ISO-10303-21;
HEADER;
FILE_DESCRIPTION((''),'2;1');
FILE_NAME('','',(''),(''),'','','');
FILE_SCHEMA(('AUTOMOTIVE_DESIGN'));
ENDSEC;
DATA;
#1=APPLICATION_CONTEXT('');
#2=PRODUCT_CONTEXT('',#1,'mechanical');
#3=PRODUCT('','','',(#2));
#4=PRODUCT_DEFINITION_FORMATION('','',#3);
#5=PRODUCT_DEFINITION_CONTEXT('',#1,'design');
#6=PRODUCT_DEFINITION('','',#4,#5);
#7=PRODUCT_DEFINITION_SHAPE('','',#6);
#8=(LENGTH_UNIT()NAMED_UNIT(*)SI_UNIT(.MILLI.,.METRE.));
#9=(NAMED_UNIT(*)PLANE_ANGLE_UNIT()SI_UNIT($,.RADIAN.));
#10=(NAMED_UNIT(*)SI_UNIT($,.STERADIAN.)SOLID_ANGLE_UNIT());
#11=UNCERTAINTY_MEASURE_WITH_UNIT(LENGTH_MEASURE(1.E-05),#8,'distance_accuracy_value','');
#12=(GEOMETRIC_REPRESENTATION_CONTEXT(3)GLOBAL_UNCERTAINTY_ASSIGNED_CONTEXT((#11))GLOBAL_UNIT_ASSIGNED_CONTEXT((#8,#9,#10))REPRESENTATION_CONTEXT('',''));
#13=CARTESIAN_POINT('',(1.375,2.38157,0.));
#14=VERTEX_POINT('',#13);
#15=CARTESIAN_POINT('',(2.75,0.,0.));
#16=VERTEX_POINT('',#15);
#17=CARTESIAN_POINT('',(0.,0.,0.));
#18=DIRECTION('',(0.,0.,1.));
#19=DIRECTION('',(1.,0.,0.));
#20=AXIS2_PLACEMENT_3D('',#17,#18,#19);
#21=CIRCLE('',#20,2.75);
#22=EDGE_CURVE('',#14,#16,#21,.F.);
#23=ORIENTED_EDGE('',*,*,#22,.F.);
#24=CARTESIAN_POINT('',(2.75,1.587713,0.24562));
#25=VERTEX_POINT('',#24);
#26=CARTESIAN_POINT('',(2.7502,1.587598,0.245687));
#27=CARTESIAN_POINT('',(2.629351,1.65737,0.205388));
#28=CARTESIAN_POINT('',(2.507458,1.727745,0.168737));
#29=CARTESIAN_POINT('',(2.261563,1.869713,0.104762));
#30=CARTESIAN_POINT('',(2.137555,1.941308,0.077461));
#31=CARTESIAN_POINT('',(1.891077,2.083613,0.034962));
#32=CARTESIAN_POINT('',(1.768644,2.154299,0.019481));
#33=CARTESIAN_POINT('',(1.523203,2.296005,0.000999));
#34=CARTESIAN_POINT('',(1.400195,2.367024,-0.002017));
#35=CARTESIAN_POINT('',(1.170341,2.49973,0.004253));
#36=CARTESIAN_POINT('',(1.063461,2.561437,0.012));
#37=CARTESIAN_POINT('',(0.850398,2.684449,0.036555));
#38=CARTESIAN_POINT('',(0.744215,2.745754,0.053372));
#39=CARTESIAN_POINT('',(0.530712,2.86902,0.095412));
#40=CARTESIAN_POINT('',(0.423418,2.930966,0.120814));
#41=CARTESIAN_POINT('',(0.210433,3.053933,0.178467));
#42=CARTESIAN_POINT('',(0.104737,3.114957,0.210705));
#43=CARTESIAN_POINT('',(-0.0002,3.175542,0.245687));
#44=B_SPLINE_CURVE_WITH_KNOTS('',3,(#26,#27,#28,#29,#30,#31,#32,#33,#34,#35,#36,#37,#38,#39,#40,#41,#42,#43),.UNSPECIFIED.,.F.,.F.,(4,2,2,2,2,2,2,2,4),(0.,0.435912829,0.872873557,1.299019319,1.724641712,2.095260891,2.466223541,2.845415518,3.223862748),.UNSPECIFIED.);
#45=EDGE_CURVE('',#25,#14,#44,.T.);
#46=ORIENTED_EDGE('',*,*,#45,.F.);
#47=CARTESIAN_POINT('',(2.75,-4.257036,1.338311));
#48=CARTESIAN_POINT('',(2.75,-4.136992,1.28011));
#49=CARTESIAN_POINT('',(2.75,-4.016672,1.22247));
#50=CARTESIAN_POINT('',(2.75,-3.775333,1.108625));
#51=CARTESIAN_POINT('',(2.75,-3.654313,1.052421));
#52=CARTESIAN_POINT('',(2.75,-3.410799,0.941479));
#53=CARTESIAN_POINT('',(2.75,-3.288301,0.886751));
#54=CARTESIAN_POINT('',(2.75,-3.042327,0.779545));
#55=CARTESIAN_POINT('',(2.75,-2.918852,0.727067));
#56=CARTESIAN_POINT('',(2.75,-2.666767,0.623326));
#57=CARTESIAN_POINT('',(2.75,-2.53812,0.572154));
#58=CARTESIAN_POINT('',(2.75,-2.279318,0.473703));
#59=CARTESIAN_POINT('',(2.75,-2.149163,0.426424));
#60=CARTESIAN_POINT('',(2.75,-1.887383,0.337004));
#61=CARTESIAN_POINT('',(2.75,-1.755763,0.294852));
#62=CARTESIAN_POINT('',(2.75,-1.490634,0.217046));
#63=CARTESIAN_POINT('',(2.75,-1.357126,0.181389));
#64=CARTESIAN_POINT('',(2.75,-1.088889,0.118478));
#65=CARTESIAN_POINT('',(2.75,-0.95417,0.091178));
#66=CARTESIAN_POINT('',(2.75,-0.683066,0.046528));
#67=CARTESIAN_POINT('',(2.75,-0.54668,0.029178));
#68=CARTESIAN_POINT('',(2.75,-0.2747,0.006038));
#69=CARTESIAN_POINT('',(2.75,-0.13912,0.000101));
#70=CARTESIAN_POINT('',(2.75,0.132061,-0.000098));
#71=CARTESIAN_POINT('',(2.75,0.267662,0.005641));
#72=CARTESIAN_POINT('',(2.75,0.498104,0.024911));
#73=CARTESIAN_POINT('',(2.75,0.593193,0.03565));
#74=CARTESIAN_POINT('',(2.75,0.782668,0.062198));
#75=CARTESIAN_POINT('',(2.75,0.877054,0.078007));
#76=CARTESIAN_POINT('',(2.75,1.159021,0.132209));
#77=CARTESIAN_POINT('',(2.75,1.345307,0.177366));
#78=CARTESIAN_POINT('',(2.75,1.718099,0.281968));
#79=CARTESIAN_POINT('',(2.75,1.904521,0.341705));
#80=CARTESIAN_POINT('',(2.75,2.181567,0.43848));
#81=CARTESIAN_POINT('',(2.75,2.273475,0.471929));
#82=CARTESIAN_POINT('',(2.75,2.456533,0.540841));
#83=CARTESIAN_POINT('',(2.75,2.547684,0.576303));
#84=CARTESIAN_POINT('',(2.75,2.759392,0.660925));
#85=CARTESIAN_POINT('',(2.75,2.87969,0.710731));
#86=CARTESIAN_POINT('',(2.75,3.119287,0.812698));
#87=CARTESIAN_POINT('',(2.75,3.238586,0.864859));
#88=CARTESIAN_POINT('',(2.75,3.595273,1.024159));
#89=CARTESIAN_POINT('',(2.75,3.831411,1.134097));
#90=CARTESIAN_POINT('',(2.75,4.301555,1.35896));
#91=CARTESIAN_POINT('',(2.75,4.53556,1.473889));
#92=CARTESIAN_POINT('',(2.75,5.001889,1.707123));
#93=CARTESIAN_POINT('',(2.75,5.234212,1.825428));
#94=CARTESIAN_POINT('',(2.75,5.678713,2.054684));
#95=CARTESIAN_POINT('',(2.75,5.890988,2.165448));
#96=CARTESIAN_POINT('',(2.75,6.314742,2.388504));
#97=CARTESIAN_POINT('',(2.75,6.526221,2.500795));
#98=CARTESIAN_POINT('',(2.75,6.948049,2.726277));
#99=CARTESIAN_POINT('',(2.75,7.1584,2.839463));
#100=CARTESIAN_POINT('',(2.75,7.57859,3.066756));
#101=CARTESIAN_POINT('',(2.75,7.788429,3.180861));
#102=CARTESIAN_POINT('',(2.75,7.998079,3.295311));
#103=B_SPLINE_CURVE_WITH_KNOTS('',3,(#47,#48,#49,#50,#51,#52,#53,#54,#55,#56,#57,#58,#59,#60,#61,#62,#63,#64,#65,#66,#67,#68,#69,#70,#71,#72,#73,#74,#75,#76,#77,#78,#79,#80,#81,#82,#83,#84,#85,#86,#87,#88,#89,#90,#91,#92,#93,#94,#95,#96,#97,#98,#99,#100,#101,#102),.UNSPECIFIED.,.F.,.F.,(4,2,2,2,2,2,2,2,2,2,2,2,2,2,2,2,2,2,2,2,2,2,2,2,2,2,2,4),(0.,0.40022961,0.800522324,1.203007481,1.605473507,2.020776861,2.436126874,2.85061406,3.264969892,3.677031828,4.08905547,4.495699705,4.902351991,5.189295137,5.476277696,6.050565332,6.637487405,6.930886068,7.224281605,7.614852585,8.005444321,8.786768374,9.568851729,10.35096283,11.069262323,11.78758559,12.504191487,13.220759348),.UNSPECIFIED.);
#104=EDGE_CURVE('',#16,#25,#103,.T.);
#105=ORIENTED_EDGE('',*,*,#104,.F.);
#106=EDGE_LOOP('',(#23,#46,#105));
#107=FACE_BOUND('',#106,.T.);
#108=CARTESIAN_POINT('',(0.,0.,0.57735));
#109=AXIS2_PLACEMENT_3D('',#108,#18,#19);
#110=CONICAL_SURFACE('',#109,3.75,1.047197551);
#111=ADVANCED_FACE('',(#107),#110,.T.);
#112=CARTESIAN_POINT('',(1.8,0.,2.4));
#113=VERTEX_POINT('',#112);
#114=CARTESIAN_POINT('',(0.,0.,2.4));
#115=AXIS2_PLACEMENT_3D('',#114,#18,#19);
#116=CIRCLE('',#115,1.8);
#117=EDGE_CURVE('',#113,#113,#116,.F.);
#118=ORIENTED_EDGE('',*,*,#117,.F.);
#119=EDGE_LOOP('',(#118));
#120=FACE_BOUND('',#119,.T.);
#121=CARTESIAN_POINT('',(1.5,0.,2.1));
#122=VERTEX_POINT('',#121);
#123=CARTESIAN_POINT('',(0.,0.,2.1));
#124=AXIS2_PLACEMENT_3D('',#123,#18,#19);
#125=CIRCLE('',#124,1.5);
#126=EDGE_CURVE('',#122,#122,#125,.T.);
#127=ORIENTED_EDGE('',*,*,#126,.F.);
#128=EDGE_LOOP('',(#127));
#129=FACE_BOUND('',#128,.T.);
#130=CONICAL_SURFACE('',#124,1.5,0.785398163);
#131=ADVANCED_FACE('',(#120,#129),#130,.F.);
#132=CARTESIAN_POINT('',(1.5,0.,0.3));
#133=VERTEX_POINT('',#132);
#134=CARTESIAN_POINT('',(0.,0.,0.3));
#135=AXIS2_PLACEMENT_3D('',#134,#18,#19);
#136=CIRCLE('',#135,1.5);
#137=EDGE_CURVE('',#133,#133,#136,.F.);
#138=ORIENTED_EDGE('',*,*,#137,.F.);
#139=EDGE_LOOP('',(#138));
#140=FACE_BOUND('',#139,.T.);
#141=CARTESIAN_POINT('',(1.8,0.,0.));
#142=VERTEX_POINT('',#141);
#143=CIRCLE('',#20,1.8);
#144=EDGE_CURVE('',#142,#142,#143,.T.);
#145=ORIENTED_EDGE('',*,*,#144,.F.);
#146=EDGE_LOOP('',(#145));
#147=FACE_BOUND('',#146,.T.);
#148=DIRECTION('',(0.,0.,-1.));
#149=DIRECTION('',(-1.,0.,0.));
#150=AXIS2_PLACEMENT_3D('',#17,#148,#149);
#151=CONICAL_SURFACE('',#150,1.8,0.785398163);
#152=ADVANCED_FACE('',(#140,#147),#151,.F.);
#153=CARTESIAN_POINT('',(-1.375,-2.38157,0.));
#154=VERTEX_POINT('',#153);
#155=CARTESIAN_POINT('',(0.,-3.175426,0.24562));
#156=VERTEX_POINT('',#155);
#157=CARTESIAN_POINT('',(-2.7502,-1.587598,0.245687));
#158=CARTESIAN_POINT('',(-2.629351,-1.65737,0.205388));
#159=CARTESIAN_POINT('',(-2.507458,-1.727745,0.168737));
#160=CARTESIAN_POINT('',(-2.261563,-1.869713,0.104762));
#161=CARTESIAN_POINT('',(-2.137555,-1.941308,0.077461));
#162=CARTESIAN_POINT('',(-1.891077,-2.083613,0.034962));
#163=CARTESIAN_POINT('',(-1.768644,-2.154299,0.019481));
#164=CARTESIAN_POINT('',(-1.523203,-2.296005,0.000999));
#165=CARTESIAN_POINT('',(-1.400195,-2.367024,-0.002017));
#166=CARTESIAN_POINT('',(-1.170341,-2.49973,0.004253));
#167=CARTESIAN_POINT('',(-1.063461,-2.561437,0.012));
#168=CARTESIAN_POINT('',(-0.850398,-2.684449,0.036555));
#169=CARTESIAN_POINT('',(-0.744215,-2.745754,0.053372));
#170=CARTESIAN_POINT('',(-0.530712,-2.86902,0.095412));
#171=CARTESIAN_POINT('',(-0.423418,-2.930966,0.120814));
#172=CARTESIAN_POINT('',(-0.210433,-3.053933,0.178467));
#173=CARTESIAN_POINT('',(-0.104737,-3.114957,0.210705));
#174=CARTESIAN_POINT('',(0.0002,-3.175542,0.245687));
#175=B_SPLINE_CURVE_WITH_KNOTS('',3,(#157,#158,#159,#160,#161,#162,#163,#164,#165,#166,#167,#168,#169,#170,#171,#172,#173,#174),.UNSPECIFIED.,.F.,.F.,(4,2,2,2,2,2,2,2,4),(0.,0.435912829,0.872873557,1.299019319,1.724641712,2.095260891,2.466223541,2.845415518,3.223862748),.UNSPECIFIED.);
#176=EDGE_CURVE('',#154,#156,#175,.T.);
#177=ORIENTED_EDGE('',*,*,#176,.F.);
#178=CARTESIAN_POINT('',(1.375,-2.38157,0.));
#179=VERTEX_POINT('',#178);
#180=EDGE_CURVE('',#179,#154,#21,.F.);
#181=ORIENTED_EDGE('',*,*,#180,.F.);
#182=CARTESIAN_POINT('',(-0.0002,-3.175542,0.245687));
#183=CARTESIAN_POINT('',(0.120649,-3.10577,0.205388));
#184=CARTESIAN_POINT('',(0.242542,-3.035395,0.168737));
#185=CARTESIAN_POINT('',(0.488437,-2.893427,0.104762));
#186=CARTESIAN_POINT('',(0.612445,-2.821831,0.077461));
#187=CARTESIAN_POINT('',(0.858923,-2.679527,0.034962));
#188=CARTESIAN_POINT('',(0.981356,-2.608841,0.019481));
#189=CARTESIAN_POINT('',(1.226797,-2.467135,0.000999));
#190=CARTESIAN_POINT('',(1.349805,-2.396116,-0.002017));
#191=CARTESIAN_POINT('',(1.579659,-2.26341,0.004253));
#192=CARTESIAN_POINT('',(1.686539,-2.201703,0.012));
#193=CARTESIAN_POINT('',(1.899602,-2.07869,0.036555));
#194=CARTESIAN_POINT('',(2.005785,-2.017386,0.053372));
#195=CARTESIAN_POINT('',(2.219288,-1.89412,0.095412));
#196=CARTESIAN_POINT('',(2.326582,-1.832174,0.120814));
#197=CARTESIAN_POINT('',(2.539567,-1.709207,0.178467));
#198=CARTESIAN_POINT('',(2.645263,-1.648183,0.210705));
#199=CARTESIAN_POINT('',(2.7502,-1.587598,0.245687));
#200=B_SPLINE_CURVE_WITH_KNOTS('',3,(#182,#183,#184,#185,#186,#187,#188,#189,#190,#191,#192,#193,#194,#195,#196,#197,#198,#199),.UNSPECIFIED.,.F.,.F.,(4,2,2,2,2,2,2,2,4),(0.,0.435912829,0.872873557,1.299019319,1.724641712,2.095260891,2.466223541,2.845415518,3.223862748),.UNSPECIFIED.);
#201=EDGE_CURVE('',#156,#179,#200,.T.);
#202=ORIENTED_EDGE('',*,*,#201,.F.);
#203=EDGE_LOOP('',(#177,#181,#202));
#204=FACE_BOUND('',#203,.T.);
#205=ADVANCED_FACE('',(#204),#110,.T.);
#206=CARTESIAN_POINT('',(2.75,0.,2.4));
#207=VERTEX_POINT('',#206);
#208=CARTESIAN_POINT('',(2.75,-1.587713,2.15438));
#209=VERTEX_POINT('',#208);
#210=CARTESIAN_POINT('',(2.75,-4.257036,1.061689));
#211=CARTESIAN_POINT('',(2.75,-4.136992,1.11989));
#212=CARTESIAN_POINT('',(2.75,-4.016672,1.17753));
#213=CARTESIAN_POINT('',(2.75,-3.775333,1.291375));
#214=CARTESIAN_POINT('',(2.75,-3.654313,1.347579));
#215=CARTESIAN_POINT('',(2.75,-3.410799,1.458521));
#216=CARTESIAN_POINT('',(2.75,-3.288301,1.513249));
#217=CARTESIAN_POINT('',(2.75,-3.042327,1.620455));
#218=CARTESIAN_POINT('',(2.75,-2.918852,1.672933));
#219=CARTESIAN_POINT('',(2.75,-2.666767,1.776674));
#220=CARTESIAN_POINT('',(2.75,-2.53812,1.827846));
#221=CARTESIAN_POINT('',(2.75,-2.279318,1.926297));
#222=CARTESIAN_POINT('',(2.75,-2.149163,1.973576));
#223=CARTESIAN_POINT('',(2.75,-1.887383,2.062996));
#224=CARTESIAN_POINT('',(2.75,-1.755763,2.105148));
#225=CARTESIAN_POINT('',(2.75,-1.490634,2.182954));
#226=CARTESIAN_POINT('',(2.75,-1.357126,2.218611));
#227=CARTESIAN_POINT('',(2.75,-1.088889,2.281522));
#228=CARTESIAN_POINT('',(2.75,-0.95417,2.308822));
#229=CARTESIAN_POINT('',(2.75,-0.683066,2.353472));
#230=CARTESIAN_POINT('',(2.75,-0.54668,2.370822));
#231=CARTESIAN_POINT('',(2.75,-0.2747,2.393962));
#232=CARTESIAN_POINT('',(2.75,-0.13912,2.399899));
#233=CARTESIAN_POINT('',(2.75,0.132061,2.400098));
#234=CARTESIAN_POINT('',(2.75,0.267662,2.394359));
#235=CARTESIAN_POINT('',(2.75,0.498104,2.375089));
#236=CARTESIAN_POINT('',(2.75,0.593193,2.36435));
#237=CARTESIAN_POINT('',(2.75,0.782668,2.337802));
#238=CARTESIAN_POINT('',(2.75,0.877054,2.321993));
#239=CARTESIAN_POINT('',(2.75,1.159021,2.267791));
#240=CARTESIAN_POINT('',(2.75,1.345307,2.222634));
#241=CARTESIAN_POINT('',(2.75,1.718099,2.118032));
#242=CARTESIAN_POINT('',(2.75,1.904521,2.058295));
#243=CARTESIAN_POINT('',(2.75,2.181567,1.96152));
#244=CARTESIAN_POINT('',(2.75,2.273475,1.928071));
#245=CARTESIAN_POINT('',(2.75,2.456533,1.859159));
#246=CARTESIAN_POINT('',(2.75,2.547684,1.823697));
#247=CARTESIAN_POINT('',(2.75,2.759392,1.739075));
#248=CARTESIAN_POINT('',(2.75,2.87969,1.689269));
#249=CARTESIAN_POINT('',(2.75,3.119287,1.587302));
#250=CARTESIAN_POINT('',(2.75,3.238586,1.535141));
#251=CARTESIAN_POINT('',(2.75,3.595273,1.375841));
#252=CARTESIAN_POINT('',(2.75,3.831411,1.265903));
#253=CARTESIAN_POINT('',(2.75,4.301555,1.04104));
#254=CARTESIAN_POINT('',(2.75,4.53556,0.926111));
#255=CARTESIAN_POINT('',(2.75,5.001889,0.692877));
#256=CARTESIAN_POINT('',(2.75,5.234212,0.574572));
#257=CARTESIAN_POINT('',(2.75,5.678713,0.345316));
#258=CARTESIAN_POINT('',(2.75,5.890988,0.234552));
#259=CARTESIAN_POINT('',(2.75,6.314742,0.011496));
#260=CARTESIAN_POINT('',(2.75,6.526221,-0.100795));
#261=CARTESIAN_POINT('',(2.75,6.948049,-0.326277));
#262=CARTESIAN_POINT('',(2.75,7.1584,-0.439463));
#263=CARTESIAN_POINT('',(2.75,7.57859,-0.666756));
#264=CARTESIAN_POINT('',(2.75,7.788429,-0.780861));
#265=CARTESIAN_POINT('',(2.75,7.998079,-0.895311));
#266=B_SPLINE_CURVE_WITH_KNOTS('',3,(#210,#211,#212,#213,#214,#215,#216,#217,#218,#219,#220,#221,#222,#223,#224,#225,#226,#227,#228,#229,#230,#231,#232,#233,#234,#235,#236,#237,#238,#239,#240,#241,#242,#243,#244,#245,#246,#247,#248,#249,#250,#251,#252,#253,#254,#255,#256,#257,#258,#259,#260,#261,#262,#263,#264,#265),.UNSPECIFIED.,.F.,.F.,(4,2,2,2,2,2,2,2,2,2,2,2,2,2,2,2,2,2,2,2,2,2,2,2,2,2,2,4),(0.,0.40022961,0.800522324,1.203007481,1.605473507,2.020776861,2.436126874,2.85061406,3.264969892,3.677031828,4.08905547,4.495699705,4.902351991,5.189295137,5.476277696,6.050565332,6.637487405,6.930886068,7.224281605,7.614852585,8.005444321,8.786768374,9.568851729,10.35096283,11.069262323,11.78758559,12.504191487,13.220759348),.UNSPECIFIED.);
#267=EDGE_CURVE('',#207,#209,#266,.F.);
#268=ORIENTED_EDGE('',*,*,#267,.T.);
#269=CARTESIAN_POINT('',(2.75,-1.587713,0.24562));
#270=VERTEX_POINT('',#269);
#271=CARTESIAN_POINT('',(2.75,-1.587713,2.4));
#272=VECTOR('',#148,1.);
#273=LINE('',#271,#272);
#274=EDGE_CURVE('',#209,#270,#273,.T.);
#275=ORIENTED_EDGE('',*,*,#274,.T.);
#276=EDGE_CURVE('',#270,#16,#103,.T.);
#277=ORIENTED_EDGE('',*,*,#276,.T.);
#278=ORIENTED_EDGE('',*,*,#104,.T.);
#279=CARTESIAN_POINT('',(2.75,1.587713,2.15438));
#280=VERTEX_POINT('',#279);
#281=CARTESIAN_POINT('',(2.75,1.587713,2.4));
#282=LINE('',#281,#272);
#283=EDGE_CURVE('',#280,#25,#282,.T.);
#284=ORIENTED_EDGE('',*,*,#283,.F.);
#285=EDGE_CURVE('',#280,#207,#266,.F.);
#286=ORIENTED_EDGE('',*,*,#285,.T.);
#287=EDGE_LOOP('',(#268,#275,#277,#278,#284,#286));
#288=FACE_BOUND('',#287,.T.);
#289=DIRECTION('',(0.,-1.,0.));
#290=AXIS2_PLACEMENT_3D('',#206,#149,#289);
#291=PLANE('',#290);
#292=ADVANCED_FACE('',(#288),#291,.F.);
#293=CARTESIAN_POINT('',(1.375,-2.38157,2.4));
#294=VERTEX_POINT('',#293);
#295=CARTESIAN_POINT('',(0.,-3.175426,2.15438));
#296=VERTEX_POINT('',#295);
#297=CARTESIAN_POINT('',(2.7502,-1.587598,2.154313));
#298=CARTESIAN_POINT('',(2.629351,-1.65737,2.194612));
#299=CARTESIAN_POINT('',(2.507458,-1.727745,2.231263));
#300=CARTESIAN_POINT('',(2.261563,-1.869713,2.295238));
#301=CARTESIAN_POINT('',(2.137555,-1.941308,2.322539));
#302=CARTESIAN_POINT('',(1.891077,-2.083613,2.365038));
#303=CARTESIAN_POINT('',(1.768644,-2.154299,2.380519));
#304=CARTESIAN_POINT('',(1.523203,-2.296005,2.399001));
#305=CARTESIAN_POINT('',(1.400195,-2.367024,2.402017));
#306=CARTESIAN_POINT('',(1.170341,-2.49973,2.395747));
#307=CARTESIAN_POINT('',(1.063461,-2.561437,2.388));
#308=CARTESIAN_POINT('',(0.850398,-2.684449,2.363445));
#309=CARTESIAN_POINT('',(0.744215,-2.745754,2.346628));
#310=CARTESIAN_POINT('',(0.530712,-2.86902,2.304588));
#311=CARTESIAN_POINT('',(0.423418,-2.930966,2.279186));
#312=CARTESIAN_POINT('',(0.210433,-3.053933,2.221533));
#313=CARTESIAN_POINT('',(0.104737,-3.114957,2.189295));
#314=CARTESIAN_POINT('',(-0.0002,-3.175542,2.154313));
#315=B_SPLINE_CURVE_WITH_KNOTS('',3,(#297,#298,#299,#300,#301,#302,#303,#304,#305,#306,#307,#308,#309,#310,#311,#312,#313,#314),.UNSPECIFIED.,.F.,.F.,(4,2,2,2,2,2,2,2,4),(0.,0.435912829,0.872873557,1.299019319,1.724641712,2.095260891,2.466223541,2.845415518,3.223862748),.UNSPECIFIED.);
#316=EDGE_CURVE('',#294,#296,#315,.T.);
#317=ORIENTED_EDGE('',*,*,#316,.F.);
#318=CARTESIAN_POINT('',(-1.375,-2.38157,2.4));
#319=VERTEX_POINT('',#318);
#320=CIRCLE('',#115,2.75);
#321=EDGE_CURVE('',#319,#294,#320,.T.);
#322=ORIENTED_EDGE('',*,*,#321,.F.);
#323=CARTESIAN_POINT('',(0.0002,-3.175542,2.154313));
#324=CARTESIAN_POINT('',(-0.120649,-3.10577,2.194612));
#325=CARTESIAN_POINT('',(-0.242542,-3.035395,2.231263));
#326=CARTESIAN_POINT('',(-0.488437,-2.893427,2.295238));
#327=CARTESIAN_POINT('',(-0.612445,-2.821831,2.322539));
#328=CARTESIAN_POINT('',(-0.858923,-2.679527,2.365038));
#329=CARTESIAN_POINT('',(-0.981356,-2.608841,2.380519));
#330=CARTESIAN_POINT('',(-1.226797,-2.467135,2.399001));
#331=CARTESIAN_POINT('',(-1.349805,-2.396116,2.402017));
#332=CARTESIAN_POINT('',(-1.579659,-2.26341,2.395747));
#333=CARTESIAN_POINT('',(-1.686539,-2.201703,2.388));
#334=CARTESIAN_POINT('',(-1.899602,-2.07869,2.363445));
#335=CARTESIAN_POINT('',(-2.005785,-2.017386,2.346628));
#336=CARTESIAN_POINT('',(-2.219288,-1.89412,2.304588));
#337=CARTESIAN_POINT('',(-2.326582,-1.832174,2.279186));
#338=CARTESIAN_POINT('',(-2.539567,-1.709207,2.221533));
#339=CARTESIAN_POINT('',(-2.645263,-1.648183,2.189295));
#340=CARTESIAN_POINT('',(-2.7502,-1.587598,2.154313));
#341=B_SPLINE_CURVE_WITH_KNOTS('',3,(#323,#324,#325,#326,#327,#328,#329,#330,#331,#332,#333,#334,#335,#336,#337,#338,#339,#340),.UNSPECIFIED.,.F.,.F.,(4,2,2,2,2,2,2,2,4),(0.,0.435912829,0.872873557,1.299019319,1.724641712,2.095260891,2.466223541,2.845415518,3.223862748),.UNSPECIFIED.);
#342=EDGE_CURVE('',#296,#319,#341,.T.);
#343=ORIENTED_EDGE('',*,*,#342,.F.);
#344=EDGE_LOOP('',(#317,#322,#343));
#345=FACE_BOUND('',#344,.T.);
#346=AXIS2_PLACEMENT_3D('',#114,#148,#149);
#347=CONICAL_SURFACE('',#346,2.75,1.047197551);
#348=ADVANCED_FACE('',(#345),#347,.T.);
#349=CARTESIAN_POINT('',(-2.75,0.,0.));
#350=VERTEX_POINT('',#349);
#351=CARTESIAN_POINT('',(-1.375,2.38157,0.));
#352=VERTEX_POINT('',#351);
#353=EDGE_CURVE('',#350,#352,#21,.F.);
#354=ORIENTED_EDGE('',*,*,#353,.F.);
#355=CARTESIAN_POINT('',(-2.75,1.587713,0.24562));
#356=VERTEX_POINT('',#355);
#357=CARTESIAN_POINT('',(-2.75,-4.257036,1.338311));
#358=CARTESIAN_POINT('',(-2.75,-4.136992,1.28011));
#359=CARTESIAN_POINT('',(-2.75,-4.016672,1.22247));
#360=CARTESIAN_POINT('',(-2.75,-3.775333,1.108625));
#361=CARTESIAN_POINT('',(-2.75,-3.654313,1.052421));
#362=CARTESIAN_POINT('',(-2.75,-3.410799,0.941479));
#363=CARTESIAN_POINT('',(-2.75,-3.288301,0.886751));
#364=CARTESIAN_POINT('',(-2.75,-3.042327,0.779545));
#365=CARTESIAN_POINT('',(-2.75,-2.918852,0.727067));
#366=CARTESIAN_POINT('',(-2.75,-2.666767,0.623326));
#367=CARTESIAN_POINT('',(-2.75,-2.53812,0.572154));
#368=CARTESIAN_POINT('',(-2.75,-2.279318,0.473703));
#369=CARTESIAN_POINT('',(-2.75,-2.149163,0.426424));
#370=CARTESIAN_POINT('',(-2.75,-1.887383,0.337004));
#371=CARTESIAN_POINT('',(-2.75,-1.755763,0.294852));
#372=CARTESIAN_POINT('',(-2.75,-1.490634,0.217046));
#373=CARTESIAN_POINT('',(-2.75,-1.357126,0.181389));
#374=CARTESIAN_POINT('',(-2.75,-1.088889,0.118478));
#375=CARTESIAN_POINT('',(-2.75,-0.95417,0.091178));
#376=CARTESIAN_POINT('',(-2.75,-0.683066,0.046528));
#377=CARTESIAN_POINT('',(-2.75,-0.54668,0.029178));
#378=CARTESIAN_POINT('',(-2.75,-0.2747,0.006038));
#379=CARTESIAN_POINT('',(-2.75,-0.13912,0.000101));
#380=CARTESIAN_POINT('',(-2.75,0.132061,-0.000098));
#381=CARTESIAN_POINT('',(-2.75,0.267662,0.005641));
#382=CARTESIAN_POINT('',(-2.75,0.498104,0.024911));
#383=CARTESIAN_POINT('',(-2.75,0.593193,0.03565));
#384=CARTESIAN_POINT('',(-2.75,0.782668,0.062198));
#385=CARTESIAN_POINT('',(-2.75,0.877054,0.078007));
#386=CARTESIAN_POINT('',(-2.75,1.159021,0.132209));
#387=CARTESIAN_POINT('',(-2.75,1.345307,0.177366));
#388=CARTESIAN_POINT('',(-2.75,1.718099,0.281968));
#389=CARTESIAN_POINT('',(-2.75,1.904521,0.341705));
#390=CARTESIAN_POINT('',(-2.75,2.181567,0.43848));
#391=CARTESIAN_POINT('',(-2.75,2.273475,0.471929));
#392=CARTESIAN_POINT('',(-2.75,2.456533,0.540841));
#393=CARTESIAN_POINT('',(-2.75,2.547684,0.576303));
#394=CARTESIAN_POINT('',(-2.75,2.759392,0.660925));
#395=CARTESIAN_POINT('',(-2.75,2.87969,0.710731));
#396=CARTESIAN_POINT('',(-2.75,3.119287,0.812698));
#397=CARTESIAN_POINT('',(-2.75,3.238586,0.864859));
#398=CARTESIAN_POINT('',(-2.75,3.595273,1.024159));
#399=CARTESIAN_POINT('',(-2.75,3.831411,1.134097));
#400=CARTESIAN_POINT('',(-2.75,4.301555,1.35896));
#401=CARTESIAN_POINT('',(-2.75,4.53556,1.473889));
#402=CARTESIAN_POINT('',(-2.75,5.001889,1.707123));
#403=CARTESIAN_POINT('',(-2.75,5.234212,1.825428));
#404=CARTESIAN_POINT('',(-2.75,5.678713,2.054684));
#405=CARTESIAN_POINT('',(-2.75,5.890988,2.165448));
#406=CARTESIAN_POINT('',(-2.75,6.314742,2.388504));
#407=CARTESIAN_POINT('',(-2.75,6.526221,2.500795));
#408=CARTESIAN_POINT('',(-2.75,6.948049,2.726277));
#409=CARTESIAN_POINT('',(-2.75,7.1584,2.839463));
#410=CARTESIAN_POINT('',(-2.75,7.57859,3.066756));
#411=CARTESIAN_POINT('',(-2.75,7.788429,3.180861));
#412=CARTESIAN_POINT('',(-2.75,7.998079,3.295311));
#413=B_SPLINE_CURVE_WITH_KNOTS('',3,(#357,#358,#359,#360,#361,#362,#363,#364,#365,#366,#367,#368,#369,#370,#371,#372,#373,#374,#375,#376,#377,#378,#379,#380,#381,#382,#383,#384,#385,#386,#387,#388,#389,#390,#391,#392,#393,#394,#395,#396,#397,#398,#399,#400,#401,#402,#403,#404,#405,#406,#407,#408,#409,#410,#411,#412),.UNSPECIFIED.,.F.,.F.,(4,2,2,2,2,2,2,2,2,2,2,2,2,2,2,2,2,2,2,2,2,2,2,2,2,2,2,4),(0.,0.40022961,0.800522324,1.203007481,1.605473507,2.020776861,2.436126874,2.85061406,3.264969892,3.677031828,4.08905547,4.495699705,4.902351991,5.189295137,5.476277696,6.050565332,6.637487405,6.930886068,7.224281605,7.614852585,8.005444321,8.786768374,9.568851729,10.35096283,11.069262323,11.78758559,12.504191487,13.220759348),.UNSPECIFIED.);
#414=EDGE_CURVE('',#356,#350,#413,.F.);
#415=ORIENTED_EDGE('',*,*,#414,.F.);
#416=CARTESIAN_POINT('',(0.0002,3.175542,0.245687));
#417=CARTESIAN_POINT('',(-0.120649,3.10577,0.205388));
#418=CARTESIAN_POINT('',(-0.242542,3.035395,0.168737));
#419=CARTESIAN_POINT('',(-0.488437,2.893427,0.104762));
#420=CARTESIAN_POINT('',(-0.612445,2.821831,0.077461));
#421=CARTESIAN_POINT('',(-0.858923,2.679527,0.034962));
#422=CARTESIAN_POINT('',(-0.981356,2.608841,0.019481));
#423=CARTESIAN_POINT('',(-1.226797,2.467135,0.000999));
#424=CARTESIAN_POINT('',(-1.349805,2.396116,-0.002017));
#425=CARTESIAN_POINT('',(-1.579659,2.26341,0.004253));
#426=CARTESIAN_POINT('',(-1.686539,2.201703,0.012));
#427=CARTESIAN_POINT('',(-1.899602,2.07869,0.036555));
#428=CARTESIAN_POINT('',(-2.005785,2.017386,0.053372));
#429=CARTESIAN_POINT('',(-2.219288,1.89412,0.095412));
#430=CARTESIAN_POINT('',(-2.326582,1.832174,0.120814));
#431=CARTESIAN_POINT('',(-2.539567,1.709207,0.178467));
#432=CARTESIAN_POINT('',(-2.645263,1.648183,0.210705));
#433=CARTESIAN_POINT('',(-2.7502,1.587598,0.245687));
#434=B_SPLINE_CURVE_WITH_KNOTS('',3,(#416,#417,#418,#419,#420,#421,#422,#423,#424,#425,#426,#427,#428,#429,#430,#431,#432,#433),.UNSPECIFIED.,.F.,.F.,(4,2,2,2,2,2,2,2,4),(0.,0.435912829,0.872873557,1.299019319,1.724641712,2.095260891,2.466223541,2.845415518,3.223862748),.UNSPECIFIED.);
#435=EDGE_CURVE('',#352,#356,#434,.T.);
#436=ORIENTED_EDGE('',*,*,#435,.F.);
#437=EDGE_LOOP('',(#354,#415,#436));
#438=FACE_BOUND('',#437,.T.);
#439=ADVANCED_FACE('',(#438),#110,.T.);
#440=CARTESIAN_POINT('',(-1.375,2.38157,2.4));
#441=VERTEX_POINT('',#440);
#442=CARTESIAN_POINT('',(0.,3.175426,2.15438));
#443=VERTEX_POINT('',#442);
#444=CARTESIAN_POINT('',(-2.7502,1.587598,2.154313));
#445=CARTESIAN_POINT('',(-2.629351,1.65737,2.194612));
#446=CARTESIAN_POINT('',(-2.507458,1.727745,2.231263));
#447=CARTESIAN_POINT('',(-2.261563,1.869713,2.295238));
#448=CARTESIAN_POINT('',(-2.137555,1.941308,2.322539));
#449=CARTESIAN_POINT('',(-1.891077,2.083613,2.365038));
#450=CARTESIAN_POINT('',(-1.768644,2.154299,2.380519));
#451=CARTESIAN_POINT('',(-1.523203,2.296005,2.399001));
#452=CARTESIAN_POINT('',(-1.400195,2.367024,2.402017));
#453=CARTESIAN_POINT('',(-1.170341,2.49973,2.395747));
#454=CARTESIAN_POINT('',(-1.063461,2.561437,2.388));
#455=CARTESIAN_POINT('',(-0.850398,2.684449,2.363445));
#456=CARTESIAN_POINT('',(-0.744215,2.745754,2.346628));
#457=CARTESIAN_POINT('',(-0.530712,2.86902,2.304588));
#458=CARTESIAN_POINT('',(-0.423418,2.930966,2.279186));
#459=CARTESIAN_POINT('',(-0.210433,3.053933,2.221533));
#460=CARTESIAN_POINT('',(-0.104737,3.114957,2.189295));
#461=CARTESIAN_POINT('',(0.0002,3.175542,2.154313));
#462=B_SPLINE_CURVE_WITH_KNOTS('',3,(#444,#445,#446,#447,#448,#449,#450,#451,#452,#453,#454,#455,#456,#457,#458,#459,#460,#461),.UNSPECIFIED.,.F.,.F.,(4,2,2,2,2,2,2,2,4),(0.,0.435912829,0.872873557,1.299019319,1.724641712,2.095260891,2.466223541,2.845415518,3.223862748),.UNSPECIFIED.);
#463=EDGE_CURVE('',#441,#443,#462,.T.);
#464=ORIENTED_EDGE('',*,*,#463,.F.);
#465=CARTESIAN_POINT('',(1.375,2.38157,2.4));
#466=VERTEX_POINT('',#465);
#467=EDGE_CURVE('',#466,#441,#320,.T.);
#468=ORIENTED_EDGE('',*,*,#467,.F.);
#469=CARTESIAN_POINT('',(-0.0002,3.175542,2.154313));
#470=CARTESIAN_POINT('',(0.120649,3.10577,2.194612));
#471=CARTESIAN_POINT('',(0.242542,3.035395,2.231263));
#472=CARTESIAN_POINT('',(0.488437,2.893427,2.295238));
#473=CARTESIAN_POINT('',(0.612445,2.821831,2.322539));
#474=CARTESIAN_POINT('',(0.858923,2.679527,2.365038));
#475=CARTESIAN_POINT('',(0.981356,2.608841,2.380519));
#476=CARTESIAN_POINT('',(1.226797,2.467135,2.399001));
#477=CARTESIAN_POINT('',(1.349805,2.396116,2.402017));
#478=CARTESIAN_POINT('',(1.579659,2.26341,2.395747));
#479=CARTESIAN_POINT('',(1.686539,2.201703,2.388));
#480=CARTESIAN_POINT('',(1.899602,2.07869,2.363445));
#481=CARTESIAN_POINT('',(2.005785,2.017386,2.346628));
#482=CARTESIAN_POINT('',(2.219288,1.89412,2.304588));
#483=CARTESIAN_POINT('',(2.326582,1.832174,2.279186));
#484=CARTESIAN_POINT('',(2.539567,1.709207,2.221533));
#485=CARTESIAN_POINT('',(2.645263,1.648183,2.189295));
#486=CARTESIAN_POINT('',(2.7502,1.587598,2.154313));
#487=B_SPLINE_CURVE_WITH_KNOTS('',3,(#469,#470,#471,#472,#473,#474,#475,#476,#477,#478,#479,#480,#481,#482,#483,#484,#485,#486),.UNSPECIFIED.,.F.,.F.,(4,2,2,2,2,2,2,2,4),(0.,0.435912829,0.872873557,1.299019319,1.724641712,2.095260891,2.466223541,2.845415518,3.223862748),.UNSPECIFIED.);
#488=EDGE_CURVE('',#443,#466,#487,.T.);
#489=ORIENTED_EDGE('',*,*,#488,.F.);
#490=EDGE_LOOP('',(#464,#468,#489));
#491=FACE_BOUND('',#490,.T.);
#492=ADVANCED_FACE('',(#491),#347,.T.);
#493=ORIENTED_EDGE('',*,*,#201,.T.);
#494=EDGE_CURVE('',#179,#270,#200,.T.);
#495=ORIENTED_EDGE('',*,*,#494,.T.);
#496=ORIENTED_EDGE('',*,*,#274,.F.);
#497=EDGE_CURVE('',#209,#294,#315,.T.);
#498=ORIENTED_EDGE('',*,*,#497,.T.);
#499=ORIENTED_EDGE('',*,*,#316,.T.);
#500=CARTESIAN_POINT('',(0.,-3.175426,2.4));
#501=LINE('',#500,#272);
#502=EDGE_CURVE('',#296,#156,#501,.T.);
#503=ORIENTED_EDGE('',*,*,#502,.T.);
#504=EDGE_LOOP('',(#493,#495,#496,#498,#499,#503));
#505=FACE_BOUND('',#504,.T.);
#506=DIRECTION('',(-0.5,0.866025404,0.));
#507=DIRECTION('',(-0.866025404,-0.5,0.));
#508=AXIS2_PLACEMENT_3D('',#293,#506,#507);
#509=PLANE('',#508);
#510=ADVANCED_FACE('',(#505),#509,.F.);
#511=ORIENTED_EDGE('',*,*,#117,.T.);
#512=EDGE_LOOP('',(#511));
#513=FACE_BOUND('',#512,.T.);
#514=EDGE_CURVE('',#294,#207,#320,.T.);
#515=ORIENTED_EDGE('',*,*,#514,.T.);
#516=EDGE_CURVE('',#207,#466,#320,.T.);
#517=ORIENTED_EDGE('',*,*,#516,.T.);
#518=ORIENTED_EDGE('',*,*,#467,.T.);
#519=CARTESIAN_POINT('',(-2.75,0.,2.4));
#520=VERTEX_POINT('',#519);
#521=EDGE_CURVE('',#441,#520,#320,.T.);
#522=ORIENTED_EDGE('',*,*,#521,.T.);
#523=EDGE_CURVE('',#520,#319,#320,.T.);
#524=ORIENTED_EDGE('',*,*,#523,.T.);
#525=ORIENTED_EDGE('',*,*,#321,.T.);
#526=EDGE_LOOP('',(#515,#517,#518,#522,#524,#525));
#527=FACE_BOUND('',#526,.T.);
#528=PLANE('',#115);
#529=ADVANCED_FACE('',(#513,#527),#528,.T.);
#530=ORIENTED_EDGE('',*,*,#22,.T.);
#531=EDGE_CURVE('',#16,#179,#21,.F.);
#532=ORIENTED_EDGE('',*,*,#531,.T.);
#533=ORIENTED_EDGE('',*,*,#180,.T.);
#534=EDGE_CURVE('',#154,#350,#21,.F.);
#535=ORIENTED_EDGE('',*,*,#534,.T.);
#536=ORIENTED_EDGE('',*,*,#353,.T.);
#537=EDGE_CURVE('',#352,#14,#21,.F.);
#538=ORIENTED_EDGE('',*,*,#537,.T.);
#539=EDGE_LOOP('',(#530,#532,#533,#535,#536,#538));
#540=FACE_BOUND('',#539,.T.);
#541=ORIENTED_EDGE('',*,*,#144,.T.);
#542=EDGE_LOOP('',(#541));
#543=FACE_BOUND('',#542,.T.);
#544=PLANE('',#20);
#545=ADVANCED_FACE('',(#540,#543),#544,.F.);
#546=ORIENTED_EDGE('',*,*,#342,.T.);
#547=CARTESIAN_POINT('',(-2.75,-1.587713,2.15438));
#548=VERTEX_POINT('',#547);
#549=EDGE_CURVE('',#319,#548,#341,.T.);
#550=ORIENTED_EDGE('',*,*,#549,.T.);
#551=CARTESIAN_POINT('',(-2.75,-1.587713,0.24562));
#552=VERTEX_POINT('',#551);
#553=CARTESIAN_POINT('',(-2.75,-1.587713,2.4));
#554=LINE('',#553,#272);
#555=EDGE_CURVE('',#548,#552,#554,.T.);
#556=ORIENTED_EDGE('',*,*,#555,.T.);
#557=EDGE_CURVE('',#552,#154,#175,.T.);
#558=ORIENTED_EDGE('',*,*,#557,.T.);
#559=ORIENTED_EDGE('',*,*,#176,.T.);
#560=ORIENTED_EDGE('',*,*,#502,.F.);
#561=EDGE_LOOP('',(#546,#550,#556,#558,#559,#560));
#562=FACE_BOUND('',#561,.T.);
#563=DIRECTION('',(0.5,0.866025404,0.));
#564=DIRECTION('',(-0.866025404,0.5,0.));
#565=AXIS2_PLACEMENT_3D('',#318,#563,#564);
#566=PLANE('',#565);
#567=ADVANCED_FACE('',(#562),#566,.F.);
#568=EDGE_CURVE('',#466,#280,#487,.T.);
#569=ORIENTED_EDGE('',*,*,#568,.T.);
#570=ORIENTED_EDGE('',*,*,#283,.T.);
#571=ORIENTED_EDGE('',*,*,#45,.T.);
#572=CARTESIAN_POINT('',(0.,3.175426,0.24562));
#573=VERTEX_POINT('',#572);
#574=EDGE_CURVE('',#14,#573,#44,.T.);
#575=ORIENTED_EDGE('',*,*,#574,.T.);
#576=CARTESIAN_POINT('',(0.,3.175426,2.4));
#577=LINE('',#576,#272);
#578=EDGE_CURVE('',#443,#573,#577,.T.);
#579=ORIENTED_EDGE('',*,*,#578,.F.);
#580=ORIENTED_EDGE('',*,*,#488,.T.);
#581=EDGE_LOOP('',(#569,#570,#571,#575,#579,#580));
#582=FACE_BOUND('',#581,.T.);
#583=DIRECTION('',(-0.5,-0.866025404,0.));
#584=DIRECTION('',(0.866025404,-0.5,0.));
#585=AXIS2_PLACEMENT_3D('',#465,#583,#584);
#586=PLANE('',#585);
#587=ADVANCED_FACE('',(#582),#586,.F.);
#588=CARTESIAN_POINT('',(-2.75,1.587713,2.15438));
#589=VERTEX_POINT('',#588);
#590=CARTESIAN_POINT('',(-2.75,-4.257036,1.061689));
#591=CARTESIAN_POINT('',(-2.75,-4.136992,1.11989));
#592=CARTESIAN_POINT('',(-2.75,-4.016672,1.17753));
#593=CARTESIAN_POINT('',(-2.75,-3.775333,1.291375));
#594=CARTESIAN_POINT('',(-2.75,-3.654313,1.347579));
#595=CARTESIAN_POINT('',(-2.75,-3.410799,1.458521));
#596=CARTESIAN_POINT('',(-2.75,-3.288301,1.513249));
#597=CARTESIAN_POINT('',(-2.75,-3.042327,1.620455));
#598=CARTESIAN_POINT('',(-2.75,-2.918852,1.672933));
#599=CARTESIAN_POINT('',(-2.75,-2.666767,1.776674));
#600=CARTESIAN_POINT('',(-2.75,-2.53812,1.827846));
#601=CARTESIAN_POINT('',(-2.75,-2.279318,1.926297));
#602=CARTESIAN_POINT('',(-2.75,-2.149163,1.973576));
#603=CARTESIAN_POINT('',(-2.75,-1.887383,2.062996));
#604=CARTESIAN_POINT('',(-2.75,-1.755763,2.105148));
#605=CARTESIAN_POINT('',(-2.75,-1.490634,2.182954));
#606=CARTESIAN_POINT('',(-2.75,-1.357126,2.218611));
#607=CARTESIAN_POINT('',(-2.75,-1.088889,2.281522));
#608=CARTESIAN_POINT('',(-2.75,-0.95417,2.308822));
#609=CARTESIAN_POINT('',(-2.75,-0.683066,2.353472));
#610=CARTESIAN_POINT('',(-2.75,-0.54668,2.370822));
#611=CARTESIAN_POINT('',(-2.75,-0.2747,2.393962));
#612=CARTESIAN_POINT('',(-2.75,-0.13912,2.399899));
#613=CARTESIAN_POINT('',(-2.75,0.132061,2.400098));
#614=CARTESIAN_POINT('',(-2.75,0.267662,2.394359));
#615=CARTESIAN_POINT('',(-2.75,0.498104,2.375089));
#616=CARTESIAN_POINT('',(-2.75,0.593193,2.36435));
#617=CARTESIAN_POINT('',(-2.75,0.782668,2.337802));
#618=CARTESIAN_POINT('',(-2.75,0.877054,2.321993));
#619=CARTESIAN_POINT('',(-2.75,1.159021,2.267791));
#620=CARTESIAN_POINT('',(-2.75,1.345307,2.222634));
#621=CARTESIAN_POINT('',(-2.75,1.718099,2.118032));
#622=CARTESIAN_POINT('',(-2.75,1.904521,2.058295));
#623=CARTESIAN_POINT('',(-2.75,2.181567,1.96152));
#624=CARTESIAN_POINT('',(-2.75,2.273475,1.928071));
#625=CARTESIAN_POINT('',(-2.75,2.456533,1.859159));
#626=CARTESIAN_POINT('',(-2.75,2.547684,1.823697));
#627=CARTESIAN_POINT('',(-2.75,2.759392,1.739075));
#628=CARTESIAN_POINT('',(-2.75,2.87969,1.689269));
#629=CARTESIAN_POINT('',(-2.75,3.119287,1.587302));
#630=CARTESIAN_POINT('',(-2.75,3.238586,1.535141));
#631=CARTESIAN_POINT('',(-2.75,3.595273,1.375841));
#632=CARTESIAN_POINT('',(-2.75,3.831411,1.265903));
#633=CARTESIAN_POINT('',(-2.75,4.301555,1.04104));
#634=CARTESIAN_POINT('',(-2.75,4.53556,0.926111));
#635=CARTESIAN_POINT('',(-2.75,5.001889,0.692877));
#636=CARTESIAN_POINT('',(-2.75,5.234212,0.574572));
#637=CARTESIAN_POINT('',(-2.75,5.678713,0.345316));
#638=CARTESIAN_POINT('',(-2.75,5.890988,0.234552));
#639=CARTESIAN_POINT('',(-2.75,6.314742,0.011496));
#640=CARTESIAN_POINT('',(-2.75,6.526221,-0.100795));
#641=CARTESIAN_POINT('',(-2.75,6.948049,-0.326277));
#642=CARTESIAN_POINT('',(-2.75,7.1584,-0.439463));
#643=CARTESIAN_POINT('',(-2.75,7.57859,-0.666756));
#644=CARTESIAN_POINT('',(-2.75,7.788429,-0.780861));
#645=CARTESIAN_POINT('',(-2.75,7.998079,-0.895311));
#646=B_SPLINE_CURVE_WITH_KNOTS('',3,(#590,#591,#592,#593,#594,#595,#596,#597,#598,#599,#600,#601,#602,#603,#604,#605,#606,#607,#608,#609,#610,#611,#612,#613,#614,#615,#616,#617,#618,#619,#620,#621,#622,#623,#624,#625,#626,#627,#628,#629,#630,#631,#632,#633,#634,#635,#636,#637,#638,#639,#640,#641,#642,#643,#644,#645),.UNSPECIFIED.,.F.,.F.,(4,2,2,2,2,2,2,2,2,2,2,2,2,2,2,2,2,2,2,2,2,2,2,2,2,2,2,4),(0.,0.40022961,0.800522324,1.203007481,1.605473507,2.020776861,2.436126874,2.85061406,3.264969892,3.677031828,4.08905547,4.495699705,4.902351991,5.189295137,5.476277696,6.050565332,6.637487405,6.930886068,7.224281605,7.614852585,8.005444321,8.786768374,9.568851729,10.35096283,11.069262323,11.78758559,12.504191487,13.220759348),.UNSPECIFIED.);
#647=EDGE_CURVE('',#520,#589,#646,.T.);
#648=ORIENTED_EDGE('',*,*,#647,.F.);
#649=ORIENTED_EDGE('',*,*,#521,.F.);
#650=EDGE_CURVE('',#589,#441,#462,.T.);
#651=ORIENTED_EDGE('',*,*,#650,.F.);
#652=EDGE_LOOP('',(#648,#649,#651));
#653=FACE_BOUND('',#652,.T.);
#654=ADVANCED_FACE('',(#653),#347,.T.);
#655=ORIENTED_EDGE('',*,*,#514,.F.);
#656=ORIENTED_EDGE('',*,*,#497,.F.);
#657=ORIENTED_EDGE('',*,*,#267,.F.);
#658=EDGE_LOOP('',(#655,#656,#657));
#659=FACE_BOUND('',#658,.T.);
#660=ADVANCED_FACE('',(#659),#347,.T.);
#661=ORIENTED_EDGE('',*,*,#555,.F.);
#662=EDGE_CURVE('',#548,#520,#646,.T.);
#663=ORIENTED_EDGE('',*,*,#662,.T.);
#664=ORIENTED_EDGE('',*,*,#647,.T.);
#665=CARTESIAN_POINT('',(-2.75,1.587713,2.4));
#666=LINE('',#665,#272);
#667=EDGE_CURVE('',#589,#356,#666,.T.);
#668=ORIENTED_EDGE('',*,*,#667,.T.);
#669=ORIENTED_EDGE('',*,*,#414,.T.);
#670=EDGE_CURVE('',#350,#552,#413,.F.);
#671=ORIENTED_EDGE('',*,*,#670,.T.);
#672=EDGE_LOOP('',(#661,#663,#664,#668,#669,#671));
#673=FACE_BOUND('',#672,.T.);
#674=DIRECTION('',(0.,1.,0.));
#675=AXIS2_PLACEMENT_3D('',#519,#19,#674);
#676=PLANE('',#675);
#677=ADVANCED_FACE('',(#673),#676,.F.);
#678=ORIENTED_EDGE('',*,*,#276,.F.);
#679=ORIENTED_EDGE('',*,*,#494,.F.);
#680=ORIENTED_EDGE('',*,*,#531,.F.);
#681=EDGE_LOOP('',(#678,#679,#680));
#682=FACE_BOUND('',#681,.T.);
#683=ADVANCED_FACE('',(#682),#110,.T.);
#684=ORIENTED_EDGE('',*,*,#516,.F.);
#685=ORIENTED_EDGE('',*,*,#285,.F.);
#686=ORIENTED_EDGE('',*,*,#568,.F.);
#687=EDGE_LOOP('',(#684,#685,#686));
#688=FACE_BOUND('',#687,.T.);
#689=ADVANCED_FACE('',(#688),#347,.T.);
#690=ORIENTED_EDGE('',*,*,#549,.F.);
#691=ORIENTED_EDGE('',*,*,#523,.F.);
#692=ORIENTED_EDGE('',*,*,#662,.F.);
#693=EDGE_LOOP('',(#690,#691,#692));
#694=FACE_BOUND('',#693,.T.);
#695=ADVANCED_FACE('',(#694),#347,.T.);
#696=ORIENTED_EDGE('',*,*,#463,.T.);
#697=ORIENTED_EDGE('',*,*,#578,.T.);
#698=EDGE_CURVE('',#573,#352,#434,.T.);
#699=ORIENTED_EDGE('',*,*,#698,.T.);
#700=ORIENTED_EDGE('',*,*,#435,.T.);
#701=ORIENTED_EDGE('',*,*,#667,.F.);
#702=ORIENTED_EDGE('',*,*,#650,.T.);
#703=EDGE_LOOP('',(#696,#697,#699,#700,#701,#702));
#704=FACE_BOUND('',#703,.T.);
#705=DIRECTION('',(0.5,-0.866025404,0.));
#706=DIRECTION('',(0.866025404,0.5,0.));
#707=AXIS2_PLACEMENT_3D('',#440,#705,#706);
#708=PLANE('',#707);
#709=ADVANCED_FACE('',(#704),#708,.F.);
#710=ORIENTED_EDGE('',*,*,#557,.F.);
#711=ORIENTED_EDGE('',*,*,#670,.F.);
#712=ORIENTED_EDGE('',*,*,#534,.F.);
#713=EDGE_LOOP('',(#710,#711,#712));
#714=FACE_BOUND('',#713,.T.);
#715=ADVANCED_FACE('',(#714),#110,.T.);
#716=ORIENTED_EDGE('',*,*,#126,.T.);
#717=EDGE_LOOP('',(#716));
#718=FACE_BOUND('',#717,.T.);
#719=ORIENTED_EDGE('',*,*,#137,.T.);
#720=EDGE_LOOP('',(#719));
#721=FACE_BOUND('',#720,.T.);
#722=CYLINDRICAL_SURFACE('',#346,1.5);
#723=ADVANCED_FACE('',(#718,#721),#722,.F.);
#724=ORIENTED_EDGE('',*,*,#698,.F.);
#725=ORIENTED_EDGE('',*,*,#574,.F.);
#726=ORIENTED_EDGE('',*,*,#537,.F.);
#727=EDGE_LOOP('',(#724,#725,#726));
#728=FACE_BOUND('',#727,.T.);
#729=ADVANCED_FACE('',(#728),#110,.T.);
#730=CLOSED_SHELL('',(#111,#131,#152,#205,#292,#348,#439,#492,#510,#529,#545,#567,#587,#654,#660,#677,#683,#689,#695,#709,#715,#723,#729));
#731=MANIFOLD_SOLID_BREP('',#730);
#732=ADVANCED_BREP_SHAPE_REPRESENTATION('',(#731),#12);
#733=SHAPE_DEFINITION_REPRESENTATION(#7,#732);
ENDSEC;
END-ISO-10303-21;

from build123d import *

# Parameters (mm, degrees)
SKETCH1_R           = 3.75
SKETCH1_R_2         = 1.5
BOSS_EXTRUDE1_DEPTH = 2.4
CHAMFER1_SIZE       = 1
CHAMFER1_SIZE2      = 0.577350269
CHAMFER2_SIZE       = 1
CHAMFER2_SIZE2      = 0.577350269
SKETCH1_3_R         = 3.75
CUT_EXTRUDE1_DEPTH  = 6.821082374
CHAMFER3_SIZE       = 0.3


with BuildPart() as part:
    # Sketch1 → Boss-Extrude1 (new body)
    with BuildSketch(Plane.XY):
        Circle(SKETCH1_R)
        Circle(SKETCH1_R_2, mode=Mode.SUBTRACT)
    extrude(amount=BOSS_EXTRUDE1_DEPTH)

    # Chamfer1
    chamfer1_edges = [part.edges().sort_by_distance(p)[0] for p in [
        (-3.75, 0, 2.4),
    ]]
    chamfer1_side = [part.faces().sort_by_distance(p)[0] for p in [
        (-3.643933983, 0, 2.4),
    ]]
    chamfer(chamfer1_edges, length=CHAMFER1_SIZE, length2=CHAMFER1_SIZE2, reference=chamfer1_side[0])

    # Chamfer2
    chamfer2_edges = [part.edges().sort_by_distance(p)[0] for p in [
        (-3.75, 0, 0),
    ]]
    chamfer2_side = [part.faces().sort_by_distance(p)[0] for p in [
        (-3.643933983, 0, 0),
    ]]
    chamfer(chamfer2_edges, length=CHAMFER2_SIZE, length2=CHAMFER2_SIZE2, reference=chamfer2_side[0])

    # Sketch1<3> → Cut-Extrude1 (cut, through all)
    with BuildSketch(Plane.XY):
        Circle(SKETCH1_3_R)
        Polygon((-2.75, 1.58771324), (0, 3.175426481), (2.75, 1.58771324), (2.75, -1.58771324), (0, -3.175426481), (-2.75, -1.58771324), align=None, mode=Mode.SUBTRACT)
    extrude(amount=CUT_EXTRUDE1_DEPTH, mode=Mode.SUBTRACT)

    # Chamfer3
    chamfer3_edges = [part.edges().sort_by_distance(p)[0] for p in [
        (-1.5, 0, 0),
        (-1.5, 0, 2.4),
    ]]
    chamfer(chamfer3_edges, length=CHAMFER3_SIZE)


solid = part.part
